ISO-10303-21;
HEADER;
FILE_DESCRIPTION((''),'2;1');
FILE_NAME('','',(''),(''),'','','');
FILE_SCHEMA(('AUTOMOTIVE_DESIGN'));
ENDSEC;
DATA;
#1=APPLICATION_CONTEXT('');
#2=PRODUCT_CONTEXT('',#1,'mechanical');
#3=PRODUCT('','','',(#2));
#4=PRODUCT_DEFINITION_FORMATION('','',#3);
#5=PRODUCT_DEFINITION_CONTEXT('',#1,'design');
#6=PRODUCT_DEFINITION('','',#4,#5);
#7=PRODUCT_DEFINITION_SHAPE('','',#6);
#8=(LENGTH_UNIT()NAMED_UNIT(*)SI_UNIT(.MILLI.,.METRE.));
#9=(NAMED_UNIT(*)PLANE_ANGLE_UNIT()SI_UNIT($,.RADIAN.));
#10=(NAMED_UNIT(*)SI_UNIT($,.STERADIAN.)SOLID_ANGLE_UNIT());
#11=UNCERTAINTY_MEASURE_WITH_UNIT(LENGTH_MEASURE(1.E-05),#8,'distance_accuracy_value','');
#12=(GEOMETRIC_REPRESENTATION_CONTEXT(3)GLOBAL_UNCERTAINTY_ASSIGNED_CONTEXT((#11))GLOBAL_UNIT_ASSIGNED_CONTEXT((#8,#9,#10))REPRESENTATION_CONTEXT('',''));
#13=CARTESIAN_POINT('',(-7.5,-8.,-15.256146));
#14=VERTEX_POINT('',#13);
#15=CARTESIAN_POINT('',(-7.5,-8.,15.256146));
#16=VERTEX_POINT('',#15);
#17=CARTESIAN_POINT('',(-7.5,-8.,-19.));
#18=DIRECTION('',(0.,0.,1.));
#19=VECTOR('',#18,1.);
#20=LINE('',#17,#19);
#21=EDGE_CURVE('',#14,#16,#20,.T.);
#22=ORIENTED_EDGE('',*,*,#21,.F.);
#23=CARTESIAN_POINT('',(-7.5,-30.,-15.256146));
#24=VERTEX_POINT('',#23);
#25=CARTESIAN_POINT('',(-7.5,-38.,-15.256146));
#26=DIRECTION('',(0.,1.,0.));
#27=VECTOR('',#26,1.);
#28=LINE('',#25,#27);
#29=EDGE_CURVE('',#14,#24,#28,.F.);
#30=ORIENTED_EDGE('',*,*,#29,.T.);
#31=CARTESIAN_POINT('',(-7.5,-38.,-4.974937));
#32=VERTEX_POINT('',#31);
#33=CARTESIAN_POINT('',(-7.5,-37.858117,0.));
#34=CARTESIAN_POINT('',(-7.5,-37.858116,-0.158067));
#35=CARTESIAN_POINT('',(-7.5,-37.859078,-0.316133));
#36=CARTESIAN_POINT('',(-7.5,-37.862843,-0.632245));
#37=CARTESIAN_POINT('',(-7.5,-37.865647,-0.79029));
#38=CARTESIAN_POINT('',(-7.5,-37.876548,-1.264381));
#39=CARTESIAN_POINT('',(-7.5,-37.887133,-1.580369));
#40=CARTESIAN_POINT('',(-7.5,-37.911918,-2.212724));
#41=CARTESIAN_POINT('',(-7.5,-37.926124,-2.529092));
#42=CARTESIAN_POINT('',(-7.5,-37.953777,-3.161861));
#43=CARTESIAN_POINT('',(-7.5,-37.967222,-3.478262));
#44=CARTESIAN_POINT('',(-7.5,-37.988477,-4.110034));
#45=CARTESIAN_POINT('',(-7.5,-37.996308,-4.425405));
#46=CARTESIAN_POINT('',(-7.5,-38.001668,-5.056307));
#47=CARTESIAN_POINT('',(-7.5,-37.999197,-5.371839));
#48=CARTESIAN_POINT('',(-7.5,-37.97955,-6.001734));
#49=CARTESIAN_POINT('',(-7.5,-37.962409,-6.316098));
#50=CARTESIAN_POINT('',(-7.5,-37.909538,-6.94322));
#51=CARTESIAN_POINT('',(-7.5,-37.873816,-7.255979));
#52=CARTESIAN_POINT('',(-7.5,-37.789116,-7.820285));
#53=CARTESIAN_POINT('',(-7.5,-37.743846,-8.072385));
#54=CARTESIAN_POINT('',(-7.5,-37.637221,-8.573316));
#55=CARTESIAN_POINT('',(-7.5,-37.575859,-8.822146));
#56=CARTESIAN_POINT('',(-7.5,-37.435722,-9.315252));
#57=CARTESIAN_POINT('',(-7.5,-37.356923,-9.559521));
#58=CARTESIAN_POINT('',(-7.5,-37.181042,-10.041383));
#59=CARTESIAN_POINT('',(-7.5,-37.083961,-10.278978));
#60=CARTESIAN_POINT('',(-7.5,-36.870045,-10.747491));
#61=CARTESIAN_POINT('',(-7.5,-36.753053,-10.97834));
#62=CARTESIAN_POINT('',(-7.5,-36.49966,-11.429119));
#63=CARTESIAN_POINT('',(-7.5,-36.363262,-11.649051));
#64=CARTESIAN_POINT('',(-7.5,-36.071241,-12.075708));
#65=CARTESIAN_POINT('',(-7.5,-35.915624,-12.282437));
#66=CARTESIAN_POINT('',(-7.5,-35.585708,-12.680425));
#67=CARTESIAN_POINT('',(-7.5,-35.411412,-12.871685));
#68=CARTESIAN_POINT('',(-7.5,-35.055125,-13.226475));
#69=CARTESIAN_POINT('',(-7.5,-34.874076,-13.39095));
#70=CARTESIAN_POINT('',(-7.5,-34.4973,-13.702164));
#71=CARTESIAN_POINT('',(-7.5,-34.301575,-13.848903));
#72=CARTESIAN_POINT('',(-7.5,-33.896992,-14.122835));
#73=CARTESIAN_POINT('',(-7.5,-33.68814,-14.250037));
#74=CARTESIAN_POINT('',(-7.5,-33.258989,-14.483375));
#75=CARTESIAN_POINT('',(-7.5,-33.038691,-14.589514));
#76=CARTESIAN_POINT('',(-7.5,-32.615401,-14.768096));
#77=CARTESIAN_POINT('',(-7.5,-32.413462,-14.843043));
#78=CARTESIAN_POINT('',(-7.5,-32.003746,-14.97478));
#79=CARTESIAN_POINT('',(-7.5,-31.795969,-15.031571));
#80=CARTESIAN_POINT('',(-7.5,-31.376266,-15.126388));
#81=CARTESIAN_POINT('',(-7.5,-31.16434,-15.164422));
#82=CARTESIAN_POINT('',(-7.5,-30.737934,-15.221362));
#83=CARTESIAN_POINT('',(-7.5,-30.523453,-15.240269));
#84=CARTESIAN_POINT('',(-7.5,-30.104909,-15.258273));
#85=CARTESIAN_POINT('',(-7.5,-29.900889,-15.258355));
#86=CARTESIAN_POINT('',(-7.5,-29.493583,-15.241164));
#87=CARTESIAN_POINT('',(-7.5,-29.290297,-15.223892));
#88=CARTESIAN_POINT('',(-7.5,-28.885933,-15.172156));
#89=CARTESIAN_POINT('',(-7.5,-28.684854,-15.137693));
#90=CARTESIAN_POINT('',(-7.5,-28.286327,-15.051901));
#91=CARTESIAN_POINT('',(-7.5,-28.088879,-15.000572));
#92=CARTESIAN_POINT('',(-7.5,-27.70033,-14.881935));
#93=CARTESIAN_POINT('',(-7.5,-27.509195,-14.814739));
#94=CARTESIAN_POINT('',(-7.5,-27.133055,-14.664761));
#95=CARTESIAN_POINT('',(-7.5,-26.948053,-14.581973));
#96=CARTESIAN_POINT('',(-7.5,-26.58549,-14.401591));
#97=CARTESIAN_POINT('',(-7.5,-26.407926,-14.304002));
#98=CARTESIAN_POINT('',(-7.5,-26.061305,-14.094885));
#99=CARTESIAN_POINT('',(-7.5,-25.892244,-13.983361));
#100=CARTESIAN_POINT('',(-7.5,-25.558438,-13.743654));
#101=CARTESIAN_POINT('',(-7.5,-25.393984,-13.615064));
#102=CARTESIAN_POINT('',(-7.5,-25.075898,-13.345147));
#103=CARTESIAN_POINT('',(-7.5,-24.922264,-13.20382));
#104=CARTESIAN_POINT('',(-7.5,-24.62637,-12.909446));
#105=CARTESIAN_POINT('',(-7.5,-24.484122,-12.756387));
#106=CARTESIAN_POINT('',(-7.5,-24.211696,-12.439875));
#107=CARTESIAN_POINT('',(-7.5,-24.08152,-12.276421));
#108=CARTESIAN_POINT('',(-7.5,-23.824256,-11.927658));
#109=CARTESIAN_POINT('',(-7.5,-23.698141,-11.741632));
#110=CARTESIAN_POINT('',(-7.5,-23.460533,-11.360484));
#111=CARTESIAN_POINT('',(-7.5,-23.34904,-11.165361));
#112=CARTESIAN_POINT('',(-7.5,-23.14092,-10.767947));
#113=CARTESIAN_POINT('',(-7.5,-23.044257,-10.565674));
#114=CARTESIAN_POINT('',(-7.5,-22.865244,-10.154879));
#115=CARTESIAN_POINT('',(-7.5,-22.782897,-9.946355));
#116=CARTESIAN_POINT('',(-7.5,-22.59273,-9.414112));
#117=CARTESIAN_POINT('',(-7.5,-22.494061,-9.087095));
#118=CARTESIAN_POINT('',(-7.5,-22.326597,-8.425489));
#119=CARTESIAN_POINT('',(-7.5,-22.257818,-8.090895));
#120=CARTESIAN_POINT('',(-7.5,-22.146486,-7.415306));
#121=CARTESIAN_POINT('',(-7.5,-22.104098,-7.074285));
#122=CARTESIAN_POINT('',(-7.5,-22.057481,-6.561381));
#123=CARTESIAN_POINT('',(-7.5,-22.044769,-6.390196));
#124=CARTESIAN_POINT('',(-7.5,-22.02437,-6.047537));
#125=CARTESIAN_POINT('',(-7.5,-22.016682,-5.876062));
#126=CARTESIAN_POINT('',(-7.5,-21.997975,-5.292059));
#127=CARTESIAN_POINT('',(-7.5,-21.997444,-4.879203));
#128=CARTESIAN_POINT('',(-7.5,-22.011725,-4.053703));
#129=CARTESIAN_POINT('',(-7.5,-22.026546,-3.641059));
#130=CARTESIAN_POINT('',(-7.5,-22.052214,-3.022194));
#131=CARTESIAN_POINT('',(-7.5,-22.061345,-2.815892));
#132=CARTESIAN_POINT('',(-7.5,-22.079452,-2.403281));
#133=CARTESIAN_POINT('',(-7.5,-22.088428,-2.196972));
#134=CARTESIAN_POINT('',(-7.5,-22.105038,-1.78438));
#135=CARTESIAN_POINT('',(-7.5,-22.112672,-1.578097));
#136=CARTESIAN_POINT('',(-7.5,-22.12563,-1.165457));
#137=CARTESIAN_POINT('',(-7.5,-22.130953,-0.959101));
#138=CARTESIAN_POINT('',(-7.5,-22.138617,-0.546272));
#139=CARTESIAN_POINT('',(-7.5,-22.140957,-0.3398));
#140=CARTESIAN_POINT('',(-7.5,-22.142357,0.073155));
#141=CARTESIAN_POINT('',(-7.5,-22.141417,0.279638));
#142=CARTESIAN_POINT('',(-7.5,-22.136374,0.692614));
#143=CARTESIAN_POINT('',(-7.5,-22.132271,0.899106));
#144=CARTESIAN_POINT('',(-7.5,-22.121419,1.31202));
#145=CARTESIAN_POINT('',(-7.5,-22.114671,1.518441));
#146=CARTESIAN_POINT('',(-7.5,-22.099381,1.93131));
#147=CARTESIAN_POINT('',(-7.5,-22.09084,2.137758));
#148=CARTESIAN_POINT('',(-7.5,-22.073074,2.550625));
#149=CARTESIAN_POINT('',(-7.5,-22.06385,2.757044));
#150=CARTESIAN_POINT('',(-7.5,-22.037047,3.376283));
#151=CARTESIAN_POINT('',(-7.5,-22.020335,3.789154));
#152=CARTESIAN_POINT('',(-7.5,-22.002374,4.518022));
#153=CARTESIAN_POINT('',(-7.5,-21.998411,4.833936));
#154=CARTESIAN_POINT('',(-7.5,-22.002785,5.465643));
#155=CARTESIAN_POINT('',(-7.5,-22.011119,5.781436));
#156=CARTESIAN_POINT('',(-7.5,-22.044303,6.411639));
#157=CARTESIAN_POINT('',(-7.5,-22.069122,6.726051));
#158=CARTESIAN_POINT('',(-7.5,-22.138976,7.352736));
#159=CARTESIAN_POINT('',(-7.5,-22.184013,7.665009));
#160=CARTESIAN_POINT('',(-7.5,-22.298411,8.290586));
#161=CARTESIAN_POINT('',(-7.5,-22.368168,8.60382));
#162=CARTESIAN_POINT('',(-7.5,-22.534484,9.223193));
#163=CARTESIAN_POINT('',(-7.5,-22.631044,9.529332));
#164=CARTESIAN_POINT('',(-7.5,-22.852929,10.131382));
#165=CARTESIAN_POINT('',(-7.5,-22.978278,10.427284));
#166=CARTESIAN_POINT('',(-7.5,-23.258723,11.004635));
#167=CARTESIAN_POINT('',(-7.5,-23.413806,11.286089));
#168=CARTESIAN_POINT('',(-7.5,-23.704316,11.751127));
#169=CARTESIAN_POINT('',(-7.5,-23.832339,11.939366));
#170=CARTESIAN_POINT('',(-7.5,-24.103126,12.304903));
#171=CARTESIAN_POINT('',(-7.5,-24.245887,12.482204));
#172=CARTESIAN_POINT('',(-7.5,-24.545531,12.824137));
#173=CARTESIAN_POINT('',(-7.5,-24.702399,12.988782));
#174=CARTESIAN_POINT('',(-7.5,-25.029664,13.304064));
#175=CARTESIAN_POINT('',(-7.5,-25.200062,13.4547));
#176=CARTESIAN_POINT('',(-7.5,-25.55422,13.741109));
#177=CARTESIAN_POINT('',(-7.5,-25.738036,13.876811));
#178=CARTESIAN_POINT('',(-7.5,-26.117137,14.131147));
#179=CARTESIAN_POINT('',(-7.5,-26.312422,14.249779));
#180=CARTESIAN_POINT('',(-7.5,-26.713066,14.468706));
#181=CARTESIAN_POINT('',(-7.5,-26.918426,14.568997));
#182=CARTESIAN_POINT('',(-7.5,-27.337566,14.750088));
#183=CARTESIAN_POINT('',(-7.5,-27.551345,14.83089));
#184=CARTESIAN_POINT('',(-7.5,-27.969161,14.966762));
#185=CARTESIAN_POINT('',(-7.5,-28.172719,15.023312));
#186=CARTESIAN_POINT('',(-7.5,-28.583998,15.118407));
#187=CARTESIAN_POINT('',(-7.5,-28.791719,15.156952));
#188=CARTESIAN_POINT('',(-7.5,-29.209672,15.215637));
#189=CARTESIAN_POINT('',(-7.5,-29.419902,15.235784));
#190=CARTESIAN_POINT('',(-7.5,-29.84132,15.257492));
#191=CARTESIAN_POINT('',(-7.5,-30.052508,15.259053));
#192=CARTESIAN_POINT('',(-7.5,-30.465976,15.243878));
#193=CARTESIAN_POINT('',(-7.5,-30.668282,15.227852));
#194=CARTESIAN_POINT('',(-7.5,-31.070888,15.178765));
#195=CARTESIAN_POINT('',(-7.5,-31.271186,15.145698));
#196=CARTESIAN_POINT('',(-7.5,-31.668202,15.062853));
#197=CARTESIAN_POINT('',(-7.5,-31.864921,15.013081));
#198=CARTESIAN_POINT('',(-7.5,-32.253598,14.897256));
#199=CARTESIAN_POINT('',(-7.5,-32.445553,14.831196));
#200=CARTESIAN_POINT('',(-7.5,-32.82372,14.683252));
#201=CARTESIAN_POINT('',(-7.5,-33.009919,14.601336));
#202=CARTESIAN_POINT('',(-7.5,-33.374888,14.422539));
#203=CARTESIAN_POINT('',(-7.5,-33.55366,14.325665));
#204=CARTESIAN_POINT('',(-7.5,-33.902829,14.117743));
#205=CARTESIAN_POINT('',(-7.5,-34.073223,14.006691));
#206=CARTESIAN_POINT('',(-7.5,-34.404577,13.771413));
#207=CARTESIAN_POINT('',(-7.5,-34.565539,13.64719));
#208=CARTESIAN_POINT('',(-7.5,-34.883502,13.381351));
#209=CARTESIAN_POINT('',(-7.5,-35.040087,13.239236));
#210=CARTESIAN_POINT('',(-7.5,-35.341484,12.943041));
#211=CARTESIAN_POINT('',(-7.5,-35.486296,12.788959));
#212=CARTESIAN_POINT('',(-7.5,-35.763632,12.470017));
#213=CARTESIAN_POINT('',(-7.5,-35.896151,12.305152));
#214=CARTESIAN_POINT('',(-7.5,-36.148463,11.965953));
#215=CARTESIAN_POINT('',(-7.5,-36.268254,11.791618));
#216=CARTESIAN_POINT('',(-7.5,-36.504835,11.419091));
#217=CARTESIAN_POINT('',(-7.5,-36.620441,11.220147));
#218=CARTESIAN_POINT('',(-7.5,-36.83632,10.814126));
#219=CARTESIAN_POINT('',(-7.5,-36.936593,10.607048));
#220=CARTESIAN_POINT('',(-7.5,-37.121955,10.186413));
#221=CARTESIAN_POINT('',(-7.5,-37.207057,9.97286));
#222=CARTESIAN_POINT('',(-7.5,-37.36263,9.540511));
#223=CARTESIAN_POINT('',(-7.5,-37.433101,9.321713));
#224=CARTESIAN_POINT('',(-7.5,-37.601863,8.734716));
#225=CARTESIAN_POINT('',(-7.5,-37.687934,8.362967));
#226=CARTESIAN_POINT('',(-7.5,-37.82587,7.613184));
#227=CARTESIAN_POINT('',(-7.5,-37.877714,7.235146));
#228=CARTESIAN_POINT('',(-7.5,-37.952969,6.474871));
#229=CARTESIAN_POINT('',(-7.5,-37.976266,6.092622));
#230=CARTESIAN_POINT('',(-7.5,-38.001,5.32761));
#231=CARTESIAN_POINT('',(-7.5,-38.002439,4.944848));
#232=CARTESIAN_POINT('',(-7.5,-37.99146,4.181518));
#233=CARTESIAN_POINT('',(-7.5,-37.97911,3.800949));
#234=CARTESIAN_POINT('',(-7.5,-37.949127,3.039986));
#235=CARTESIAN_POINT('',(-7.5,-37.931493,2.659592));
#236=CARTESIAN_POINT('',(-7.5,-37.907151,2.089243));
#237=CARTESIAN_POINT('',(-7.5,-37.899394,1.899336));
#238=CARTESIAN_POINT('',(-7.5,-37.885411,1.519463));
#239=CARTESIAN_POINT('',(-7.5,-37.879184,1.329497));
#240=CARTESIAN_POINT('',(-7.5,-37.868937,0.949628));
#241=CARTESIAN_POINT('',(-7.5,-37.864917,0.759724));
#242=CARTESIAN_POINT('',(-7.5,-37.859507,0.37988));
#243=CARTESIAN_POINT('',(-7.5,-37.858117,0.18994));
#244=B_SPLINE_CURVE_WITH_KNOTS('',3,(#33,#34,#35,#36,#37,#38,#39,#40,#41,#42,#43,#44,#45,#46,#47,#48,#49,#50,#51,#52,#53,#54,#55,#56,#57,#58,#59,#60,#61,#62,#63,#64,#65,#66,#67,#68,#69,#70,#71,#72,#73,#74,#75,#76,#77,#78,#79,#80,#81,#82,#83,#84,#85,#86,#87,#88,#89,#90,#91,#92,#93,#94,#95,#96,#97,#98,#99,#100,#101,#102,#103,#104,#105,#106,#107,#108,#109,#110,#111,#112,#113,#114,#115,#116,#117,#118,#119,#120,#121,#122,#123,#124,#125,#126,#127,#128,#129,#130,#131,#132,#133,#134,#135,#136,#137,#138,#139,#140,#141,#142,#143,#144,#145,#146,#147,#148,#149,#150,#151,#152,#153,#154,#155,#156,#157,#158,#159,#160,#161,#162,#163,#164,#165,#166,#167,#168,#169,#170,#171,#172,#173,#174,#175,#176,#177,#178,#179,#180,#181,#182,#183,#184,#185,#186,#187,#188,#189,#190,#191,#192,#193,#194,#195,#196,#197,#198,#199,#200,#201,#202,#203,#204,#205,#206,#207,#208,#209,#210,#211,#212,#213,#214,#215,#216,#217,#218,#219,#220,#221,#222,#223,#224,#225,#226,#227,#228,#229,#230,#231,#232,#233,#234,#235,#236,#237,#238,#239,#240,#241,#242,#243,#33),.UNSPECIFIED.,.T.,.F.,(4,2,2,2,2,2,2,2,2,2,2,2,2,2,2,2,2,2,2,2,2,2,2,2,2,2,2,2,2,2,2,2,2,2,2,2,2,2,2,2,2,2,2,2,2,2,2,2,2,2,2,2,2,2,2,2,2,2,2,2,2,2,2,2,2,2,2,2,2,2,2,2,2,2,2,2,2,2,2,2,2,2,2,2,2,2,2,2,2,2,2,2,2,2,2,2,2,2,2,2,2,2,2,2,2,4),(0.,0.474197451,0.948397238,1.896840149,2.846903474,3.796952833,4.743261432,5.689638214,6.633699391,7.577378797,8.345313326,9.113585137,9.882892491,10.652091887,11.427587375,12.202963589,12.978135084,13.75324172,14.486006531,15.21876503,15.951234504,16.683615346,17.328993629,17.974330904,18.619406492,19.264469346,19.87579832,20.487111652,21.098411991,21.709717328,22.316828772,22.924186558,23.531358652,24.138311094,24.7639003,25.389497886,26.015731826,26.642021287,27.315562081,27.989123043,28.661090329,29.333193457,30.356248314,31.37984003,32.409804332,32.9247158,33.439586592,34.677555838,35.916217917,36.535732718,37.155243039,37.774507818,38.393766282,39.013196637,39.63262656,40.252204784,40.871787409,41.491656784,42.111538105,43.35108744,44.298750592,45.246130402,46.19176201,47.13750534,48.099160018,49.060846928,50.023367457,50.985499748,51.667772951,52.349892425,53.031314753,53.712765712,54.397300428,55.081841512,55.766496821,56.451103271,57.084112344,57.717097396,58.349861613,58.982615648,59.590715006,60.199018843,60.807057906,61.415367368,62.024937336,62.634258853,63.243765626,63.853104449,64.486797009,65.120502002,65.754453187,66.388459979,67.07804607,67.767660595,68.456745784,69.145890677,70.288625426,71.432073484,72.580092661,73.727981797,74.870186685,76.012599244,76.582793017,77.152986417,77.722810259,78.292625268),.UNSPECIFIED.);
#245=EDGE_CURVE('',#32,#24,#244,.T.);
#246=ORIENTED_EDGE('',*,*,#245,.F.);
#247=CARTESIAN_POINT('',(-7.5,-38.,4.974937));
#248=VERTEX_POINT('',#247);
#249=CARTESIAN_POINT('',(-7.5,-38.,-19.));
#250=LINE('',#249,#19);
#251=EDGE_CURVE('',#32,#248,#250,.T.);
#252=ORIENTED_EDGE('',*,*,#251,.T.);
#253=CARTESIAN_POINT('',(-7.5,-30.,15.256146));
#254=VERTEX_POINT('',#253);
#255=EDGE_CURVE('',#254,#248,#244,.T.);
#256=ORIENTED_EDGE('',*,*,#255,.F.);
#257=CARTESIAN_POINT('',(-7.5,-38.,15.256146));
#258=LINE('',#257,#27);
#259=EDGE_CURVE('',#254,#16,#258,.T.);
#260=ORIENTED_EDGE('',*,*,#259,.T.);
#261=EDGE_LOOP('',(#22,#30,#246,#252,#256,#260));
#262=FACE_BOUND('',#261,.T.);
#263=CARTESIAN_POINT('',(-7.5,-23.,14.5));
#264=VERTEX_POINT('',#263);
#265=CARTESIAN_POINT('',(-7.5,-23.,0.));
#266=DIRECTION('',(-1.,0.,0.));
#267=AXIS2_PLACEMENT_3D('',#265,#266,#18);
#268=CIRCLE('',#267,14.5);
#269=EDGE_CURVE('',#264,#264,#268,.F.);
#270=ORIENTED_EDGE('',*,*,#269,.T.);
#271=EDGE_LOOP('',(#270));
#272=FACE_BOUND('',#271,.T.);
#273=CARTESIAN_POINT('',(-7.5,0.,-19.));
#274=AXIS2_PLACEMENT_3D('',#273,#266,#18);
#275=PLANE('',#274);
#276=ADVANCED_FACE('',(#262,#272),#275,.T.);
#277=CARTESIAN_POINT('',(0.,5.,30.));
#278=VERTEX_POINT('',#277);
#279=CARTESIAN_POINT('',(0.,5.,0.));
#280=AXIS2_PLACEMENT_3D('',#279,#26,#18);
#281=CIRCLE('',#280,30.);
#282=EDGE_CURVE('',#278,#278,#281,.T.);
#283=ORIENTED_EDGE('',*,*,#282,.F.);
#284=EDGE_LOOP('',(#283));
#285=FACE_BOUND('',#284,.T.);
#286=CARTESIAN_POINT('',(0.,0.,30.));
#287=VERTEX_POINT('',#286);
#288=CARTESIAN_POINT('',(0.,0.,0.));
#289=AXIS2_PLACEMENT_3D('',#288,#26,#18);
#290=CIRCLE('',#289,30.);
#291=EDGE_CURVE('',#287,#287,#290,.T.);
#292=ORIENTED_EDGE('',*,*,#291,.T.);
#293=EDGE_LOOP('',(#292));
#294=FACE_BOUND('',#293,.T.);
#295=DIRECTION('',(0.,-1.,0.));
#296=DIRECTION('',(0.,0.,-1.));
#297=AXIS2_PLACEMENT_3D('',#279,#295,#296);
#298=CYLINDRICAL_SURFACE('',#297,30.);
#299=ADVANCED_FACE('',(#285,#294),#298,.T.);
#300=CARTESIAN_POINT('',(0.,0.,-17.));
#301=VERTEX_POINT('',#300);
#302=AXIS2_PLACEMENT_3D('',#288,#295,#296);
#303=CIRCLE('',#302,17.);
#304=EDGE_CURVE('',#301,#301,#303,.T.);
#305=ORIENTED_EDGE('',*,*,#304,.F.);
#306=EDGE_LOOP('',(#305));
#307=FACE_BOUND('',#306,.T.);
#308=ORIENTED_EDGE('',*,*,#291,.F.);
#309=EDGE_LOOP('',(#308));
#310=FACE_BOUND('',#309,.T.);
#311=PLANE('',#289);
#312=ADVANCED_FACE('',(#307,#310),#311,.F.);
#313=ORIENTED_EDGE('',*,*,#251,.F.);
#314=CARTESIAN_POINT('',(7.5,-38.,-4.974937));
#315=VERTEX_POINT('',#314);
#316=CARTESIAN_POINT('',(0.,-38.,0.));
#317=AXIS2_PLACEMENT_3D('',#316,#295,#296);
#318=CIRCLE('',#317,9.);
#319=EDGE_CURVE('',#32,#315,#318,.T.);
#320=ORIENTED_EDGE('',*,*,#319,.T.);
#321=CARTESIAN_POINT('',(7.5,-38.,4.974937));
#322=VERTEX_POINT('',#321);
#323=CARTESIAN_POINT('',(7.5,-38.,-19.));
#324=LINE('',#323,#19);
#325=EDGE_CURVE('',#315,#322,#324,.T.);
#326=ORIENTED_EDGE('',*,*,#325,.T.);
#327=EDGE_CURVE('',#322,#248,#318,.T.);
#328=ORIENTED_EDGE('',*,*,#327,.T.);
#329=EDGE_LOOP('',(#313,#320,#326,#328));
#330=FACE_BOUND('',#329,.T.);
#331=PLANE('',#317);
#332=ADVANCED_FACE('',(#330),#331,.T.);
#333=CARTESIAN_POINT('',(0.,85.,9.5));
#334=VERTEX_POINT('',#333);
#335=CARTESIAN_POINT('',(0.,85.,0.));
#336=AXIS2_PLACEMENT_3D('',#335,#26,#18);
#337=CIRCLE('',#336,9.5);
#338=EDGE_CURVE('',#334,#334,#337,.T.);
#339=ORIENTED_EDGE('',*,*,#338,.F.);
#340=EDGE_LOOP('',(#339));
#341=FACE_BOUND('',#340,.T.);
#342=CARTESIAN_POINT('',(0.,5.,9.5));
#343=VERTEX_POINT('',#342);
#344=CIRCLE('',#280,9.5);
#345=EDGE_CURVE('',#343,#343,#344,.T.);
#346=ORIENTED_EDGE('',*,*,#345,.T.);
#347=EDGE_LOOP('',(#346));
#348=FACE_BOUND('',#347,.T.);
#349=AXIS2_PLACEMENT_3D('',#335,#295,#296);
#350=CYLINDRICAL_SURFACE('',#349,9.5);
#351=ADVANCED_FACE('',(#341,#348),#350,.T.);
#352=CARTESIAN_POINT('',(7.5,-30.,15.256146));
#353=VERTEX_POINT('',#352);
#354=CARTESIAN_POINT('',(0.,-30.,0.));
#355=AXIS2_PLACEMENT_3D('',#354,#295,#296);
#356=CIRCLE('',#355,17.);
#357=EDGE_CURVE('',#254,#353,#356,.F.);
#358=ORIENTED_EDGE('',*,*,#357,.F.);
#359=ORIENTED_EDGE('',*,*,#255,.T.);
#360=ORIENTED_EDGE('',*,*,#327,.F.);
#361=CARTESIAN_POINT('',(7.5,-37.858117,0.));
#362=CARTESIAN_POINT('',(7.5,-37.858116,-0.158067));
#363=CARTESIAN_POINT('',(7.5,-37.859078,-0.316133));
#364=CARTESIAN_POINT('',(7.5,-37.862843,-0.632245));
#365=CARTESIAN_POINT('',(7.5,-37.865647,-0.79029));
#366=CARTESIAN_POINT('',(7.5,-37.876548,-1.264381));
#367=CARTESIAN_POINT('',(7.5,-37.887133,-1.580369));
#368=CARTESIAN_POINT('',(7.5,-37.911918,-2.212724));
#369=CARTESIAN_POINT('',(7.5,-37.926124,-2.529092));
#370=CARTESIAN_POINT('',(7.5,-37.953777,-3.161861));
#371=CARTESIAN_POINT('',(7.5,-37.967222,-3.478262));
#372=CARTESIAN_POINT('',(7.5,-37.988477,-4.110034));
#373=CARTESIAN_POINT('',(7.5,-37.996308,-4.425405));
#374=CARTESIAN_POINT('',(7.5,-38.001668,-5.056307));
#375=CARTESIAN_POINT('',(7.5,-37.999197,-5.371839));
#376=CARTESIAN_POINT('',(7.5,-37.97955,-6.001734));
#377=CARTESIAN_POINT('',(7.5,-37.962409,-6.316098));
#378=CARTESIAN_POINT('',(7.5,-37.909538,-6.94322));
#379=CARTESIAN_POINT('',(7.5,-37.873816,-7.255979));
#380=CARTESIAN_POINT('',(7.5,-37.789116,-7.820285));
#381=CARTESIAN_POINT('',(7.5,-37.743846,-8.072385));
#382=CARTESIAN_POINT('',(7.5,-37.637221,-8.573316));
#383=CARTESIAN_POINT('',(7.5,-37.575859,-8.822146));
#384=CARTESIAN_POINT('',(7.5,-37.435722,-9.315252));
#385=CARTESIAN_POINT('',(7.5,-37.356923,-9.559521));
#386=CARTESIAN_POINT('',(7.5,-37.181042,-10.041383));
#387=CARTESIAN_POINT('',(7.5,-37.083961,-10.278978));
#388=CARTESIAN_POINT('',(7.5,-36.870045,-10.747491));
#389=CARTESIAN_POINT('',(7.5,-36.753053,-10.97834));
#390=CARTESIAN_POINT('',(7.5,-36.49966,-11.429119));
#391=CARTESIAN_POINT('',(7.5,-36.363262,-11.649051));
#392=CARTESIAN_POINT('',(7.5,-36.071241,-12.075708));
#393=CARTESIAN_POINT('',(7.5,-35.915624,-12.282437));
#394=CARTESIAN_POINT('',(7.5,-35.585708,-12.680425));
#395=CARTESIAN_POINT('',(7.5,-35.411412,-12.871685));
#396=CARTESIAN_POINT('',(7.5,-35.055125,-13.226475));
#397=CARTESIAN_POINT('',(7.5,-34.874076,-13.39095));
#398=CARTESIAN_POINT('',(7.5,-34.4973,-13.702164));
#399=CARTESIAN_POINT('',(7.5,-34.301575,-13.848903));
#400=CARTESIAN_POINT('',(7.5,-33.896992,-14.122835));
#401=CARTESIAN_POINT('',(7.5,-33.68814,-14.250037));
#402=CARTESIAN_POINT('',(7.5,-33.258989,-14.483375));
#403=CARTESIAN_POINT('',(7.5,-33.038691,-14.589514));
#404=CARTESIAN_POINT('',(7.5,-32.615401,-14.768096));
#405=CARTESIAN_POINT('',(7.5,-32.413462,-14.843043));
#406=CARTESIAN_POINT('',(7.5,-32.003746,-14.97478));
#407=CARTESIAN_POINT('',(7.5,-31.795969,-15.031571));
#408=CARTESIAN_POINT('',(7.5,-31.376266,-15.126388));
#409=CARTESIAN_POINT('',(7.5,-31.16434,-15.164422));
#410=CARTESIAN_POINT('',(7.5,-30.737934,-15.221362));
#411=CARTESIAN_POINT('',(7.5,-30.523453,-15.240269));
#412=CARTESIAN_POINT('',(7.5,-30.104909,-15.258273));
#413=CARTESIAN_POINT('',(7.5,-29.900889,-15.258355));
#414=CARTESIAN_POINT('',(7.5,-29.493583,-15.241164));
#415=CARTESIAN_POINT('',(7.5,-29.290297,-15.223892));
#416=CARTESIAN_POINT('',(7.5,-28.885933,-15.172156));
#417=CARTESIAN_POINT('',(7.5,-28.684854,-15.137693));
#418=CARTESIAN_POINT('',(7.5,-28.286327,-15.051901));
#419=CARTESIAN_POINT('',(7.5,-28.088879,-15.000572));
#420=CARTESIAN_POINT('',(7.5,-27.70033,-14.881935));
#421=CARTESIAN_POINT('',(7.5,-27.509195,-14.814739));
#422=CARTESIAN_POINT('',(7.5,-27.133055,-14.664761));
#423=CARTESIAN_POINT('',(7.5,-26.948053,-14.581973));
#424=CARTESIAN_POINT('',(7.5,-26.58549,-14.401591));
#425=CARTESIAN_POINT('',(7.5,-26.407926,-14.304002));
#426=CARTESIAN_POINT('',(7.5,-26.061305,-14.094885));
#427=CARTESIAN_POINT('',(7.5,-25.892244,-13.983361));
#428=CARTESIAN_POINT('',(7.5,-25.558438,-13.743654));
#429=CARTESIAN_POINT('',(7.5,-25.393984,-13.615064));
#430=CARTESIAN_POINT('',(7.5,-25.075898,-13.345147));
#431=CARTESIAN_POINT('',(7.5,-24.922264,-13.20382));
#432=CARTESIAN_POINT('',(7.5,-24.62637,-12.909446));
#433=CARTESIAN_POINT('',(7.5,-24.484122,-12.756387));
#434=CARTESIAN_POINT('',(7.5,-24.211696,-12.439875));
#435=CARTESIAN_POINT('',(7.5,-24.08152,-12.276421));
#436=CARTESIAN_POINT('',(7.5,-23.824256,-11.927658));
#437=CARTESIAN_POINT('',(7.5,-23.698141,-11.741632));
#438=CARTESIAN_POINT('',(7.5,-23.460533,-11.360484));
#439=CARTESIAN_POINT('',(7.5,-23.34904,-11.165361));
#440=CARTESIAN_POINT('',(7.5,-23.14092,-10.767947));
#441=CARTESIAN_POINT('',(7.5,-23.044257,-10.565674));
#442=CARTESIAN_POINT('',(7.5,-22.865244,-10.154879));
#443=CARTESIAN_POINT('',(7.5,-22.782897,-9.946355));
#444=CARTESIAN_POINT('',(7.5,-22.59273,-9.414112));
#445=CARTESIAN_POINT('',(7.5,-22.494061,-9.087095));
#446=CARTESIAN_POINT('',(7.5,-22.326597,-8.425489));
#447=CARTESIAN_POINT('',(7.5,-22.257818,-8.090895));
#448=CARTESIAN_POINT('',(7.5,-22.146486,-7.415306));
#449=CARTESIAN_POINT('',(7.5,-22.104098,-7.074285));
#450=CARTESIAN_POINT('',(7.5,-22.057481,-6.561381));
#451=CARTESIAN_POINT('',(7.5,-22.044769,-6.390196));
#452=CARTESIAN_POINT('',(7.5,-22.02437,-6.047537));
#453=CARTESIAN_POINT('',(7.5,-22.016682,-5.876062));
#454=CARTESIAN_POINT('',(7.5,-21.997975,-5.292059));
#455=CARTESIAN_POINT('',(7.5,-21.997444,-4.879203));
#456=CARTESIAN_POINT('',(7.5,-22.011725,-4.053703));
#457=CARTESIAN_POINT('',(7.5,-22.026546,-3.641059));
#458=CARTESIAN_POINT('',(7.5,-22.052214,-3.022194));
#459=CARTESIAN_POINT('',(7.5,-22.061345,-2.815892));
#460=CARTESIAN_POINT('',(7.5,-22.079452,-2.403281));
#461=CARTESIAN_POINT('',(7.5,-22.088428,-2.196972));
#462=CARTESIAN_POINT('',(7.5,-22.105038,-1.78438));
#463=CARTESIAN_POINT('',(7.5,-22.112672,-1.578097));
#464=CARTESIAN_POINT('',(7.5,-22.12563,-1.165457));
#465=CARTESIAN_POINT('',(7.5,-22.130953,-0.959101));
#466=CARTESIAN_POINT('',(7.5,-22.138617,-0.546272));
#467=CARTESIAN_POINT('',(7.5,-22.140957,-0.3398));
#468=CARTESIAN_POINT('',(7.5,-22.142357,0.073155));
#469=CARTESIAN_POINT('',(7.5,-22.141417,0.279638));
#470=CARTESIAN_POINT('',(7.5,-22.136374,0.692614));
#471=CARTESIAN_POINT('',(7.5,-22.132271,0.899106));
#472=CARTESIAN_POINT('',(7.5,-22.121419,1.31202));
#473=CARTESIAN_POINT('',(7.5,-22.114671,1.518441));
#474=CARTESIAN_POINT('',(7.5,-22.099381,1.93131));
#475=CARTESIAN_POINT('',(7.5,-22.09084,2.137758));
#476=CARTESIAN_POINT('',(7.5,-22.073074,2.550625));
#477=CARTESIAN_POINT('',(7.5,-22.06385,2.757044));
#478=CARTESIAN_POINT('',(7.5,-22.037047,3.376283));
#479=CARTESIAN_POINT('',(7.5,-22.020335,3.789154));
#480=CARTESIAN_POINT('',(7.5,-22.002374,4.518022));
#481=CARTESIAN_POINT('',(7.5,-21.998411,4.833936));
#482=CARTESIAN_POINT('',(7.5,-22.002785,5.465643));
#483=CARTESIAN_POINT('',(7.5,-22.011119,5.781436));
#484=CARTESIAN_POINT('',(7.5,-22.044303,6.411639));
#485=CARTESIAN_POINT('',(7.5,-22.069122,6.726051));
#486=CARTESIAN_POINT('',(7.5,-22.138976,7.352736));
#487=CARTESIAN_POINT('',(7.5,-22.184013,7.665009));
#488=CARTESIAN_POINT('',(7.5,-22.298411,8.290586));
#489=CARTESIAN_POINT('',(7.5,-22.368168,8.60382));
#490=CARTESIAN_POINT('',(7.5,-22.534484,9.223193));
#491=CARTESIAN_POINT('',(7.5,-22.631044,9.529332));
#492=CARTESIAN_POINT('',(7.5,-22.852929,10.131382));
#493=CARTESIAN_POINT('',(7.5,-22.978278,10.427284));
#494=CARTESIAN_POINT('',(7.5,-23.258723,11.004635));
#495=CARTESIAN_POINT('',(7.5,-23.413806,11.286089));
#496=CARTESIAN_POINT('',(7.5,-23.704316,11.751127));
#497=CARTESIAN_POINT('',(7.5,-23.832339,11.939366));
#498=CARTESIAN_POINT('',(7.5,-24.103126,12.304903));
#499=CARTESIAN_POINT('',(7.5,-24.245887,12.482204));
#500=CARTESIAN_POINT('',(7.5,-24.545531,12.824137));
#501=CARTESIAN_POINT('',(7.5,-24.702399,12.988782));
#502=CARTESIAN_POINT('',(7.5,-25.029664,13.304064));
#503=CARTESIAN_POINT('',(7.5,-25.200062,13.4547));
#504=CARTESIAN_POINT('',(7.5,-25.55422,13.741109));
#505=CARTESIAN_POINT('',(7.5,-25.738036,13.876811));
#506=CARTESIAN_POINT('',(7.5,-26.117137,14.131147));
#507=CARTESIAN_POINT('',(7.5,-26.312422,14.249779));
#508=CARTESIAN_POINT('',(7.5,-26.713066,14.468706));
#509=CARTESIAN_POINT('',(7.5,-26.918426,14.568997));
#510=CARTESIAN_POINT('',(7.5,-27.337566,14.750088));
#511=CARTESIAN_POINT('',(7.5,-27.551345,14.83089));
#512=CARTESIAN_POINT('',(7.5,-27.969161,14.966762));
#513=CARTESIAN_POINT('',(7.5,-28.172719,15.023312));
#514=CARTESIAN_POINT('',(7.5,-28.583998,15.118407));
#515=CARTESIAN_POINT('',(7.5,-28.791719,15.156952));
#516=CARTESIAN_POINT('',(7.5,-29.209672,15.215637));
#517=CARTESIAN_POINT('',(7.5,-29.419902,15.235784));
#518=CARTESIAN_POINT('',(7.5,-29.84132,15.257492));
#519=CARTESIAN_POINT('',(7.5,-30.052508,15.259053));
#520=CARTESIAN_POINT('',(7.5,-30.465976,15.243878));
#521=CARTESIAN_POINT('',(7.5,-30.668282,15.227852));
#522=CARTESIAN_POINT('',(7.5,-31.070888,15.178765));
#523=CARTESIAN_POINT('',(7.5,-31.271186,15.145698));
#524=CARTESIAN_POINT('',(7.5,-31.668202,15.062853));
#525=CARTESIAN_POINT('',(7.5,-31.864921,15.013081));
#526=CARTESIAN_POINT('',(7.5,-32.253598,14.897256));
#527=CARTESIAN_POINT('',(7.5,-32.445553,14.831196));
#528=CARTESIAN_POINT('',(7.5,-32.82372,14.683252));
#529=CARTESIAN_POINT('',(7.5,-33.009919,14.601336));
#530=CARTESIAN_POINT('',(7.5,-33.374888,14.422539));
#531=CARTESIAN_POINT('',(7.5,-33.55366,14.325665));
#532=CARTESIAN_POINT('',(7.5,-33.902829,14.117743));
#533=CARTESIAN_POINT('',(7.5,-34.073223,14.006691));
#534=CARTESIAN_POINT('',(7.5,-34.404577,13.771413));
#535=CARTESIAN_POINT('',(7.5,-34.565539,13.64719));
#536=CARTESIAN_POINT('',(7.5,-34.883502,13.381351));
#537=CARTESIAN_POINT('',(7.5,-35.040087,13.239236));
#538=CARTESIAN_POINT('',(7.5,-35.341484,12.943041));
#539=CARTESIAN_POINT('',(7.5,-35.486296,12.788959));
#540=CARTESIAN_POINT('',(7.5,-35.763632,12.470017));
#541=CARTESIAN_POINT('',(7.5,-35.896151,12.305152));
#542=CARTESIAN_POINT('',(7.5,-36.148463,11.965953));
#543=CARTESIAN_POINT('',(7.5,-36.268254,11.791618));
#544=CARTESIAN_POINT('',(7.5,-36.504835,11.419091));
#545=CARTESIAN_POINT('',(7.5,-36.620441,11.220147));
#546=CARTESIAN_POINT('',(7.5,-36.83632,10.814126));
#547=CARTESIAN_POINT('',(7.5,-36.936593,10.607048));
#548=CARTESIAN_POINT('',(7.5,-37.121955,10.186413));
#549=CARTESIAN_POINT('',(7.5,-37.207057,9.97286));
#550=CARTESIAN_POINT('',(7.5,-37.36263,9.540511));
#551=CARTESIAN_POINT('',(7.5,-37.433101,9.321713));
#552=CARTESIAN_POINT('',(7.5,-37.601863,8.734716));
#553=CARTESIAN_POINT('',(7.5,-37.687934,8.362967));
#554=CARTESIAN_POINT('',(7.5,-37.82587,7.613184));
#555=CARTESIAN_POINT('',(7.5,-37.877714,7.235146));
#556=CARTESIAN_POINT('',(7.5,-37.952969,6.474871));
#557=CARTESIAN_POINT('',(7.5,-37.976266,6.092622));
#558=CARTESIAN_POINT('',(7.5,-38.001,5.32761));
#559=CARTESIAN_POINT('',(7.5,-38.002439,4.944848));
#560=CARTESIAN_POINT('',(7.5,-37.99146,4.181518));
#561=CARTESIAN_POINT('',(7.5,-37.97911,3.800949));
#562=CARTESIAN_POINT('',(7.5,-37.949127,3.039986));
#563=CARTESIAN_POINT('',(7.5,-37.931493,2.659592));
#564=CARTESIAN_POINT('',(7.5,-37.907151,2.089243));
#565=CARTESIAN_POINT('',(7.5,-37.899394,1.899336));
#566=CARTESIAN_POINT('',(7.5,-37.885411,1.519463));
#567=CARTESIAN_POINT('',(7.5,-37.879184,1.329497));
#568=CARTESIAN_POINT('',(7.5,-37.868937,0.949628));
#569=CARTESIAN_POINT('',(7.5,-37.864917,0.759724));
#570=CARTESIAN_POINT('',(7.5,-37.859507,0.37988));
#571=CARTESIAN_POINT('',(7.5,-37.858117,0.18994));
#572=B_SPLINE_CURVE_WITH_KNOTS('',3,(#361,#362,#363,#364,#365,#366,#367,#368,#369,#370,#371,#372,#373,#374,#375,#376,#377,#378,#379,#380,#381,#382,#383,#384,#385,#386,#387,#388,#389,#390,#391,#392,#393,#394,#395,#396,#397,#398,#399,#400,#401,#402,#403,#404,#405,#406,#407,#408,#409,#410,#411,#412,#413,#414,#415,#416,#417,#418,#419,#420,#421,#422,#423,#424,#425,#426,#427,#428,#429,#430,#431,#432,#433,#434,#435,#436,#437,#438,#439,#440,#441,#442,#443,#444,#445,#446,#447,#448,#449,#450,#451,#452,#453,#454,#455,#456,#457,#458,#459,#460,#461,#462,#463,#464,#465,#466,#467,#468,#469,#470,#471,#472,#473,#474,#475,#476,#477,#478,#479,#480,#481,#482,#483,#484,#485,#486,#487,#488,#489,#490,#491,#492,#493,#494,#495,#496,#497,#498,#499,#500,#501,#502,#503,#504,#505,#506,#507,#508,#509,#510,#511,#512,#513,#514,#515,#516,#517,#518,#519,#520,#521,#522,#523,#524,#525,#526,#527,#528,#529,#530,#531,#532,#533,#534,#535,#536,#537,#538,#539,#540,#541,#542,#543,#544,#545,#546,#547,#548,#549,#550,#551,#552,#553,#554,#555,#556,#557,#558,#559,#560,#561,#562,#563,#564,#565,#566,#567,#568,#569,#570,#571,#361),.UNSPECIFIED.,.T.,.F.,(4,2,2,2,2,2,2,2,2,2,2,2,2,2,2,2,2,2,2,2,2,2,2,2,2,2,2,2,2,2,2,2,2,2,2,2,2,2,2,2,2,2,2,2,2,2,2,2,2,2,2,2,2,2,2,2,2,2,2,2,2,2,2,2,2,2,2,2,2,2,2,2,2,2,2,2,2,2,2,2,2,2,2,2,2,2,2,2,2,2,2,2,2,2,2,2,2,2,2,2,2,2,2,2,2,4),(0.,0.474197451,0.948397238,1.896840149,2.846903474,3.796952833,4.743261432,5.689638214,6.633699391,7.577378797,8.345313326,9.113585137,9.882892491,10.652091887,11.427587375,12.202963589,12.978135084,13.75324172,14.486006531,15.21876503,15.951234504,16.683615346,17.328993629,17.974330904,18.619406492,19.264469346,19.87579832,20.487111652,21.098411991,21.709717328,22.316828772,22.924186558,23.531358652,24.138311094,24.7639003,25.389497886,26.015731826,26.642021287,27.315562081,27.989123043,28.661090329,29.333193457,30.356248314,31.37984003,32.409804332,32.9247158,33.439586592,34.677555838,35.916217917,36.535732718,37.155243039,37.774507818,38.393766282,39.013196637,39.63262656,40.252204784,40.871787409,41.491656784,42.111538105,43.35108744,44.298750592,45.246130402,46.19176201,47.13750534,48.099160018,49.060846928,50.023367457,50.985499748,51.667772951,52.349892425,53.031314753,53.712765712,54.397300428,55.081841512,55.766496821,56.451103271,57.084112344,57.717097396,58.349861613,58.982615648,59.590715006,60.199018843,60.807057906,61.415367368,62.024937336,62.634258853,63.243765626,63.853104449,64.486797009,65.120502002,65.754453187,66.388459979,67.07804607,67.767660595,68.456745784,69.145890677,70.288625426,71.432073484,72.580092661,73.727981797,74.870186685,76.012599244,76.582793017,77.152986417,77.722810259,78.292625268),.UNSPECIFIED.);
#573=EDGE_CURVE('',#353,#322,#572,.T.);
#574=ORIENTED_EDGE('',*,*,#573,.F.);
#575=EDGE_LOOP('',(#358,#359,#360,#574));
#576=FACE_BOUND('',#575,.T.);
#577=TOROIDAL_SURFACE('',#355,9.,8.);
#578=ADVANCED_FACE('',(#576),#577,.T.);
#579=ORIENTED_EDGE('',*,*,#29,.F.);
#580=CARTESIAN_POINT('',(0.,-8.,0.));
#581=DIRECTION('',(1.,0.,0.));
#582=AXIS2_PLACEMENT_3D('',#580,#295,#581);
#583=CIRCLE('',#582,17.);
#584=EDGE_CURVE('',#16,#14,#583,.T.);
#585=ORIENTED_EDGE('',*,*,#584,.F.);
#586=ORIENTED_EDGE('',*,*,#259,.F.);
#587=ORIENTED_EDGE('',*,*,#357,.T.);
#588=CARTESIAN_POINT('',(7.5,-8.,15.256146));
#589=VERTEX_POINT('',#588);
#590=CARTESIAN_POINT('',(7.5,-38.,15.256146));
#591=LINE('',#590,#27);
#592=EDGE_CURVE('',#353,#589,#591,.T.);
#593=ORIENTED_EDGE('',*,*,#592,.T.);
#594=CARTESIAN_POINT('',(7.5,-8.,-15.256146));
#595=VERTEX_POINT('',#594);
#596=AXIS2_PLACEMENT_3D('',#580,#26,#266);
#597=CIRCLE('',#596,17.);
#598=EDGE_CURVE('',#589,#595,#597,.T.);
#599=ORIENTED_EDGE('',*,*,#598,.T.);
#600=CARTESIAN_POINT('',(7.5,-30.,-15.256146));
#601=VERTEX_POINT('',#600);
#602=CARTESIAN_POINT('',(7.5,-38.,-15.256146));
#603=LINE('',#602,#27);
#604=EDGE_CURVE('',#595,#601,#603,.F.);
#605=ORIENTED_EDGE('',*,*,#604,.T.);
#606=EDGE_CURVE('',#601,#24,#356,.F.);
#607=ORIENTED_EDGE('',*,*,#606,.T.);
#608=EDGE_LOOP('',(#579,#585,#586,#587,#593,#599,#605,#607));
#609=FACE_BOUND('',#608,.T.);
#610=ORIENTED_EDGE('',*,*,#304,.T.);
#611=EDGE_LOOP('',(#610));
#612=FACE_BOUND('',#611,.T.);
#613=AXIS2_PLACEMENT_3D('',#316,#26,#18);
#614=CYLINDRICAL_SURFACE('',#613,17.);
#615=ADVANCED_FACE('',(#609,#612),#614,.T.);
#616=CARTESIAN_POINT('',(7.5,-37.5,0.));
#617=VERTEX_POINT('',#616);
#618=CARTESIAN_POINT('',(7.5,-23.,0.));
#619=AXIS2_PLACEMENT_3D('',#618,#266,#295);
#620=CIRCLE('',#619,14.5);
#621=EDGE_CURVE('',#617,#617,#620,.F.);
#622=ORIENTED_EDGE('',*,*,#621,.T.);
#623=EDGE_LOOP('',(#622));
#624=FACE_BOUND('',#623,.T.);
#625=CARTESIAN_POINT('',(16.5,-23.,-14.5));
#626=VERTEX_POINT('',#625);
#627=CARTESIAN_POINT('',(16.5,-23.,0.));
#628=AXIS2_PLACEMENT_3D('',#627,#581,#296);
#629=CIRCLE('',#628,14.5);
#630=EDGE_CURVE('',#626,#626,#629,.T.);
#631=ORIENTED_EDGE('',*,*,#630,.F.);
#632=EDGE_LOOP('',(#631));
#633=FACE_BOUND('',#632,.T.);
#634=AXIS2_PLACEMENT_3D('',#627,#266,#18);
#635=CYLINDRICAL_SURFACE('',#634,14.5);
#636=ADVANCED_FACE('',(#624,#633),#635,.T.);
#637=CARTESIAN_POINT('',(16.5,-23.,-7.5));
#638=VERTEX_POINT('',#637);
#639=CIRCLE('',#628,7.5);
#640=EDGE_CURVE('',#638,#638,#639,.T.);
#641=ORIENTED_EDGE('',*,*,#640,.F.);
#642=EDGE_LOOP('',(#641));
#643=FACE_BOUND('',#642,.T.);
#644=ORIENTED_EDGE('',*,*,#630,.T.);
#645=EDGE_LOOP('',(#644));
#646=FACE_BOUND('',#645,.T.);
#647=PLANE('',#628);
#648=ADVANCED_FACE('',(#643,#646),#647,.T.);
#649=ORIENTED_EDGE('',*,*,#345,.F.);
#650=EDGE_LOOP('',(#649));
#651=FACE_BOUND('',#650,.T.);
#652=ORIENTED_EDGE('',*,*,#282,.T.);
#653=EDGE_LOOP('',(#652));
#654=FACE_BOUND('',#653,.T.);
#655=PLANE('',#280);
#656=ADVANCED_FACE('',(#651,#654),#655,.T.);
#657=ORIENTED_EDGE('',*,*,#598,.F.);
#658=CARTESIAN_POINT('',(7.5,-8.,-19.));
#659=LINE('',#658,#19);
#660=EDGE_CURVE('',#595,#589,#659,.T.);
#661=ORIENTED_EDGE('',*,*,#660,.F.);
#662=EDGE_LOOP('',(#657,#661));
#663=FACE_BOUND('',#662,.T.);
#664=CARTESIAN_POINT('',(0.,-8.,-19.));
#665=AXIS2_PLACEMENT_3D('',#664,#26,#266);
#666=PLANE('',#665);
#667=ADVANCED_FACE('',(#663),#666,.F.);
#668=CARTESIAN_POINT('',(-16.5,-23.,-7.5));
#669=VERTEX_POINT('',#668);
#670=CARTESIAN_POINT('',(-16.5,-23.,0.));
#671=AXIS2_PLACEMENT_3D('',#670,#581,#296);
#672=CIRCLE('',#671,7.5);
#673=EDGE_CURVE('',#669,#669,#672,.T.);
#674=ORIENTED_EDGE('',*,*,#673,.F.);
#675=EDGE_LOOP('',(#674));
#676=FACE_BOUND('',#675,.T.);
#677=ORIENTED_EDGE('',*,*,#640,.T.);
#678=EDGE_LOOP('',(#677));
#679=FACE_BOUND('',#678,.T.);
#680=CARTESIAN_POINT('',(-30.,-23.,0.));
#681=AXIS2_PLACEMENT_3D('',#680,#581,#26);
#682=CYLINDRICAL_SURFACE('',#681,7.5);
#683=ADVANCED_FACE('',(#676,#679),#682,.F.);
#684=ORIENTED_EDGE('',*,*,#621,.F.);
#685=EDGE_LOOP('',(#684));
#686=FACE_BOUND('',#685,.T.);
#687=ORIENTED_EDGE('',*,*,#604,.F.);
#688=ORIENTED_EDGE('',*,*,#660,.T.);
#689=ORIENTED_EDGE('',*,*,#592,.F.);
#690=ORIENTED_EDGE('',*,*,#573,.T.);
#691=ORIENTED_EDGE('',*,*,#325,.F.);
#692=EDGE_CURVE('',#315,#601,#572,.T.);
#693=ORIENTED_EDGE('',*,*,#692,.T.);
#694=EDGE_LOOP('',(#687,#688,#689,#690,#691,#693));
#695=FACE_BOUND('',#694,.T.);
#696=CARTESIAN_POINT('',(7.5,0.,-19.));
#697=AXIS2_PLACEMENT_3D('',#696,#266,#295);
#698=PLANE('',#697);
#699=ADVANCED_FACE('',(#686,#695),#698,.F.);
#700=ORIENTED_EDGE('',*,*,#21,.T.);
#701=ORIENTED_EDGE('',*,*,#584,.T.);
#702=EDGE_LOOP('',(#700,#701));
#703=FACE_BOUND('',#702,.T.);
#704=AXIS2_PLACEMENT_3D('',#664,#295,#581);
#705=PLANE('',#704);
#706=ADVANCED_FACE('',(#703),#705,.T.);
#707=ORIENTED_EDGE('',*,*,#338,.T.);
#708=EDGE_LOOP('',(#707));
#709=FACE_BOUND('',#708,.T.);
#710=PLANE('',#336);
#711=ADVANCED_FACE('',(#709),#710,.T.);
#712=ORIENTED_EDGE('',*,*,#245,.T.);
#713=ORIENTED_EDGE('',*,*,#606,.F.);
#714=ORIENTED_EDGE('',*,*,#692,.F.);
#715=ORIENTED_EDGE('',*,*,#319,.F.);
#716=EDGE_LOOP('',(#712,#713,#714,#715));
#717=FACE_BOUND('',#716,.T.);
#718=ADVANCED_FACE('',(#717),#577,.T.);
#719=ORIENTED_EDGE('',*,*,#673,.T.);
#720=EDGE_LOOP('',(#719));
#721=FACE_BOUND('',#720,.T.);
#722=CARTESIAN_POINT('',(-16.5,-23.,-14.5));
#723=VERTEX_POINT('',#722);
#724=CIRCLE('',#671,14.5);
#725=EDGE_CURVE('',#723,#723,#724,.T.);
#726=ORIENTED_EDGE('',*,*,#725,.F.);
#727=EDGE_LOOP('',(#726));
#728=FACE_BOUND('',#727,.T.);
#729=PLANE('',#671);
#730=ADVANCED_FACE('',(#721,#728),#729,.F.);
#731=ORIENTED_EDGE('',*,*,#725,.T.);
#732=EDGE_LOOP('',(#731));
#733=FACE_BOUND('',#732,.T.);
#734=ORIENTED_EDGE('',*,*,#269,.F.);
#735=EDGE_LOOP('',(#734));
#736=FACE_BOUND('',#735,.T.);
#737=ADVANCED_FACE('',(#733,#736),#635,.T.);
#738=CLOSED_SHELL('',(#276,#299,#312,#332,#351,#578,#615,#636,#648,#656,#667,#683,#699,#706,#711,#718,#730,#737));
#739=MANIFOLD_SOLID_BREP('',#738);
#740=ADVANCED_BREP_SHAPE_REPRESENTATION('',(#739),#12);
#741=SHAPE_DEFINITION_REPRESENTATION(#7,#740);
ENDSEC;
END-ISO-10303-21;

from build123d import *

# Parameters (mm, degrees)
SKETCH1_R               = 30
BOSS_EXTRUDE1_DEPTH     = 5
SKETCH2_R               = 9.5
BOSS_EXTRUDE2_DEPTH     = 80
SKETCH3_R               = 17
BOSS_EXTRUDE3_DEPTH     = 38
FILLET1_R               = 8
SKETCH4_W               = 21.418583827
SKETCH4_H               = 30
CUT_EXTRUDE1_DEPTH      = 19
CUT_EXTRUDE2_DEPTH      = 98.628120949
CUT_EXTRUDE2_DEPTH_BACK = 98.628120949
SKETCH8_R               = 7.5
SKETCH9_R               = 14.5
SKETCH9_R_2             = 7.5
BOSS_EXTRUDE4_DEPTH     = 16.5


with BuildPart() as part:
    # Sketch1 → Boss-Extrude1 (new body)
    with BuildSketch(Plane(origin=(0, 0, 0), x_dir=(1, 0, 0), z_dir=(0, 1, 0))):
        with Locations(Location((0, 0, 0), (0, 0, 270))):
            Circle(SKETCH1_R)
    extrude(amount=BOSS_EXTRUDE1_DEPTH)

    # Sketch2 → Boss-Extrude2 (add)
    with BuildSketch(Plane(origin=(0, 5, 0), x_dir=(1, 0, 0), z_dir=(0, 1, 0))):
        with Locations(Location((0, 0, 0), (0, 0, 270))):
            Circle(SKETCH2_R)
    extrude(amount=BOSS_EXTRUDE2_DEPTH)

    # Sketch3 → Boss-Extrude3 (add)
    with BuildSketch(Plane.XZ):
        with Locations(Location((0, 0, 0), (0, 0, 270))):
            Circle(SKETCH3_R)
    extrude(amount=BOSS_EXTRUDE3_DEPTH)

    # Fillet1
    fillet1_edges = [part.edges().sort_by_distance(p)[0] for p in [
        (0, -38, 17),
    ]]
    fillet(fillet1_edges, radius=FILLET1_R)

    # Sketch4 → Cut-Extrude1 (cut, symmetric)
    with BuildSketch(Plane.XY):
        with Locations((-18.209291914, -23)):
            Rectangle(SKETCH4_W, SKETCH4_H)
        with Locations((18.209291914, -23)):
            Rectangle(SKETCH4_W, SKETCH4_H)
    extrude(amount=CUT_EXTRUDE1_DEPTH, both=True, mode=Mode.SUBTRACT)

    # Sketch8 → Cut-Extrude2 (cut, two sides: drawn at the far end of the back side and taken through both)
    with BuildSketch(Plane(origin=(7.5, 0, 0), x_dir=(0, 0, -1), z_dir=(1, 0, 0)).offset(-CUT_EXTRUDE2_DEPTH_BACK)):
        with Locations(Location((0, -23, 0), (0, 0, 180))):
            Circle(SKETCH8_R)
    extrude(amount=CUT_EXTRUDE2_DEPTH + CUT_EXTRUDE2_DEPTH_BACK, mode=Mode.SUBTRACT)

    # Sketch9 → Boss-Extrude4 (add, symmetric)
    with BuildSketch(Plane(origin=(0, 0, 0), x_dir=(0, 0, -1), z_dir=(1, 0, 0))):
        with Locations(Location((0, -23, 0), (0, 0, 180))):
            Circle(SKETCH9_R)
        with Locations((0, -23)):
            Circle(SKETCH9_R_2, mode=Mode.SUBTRACT)
    extrude(amount=BOSS_EXTRUDE4_DEPTH, both=True)


solid = part.part
